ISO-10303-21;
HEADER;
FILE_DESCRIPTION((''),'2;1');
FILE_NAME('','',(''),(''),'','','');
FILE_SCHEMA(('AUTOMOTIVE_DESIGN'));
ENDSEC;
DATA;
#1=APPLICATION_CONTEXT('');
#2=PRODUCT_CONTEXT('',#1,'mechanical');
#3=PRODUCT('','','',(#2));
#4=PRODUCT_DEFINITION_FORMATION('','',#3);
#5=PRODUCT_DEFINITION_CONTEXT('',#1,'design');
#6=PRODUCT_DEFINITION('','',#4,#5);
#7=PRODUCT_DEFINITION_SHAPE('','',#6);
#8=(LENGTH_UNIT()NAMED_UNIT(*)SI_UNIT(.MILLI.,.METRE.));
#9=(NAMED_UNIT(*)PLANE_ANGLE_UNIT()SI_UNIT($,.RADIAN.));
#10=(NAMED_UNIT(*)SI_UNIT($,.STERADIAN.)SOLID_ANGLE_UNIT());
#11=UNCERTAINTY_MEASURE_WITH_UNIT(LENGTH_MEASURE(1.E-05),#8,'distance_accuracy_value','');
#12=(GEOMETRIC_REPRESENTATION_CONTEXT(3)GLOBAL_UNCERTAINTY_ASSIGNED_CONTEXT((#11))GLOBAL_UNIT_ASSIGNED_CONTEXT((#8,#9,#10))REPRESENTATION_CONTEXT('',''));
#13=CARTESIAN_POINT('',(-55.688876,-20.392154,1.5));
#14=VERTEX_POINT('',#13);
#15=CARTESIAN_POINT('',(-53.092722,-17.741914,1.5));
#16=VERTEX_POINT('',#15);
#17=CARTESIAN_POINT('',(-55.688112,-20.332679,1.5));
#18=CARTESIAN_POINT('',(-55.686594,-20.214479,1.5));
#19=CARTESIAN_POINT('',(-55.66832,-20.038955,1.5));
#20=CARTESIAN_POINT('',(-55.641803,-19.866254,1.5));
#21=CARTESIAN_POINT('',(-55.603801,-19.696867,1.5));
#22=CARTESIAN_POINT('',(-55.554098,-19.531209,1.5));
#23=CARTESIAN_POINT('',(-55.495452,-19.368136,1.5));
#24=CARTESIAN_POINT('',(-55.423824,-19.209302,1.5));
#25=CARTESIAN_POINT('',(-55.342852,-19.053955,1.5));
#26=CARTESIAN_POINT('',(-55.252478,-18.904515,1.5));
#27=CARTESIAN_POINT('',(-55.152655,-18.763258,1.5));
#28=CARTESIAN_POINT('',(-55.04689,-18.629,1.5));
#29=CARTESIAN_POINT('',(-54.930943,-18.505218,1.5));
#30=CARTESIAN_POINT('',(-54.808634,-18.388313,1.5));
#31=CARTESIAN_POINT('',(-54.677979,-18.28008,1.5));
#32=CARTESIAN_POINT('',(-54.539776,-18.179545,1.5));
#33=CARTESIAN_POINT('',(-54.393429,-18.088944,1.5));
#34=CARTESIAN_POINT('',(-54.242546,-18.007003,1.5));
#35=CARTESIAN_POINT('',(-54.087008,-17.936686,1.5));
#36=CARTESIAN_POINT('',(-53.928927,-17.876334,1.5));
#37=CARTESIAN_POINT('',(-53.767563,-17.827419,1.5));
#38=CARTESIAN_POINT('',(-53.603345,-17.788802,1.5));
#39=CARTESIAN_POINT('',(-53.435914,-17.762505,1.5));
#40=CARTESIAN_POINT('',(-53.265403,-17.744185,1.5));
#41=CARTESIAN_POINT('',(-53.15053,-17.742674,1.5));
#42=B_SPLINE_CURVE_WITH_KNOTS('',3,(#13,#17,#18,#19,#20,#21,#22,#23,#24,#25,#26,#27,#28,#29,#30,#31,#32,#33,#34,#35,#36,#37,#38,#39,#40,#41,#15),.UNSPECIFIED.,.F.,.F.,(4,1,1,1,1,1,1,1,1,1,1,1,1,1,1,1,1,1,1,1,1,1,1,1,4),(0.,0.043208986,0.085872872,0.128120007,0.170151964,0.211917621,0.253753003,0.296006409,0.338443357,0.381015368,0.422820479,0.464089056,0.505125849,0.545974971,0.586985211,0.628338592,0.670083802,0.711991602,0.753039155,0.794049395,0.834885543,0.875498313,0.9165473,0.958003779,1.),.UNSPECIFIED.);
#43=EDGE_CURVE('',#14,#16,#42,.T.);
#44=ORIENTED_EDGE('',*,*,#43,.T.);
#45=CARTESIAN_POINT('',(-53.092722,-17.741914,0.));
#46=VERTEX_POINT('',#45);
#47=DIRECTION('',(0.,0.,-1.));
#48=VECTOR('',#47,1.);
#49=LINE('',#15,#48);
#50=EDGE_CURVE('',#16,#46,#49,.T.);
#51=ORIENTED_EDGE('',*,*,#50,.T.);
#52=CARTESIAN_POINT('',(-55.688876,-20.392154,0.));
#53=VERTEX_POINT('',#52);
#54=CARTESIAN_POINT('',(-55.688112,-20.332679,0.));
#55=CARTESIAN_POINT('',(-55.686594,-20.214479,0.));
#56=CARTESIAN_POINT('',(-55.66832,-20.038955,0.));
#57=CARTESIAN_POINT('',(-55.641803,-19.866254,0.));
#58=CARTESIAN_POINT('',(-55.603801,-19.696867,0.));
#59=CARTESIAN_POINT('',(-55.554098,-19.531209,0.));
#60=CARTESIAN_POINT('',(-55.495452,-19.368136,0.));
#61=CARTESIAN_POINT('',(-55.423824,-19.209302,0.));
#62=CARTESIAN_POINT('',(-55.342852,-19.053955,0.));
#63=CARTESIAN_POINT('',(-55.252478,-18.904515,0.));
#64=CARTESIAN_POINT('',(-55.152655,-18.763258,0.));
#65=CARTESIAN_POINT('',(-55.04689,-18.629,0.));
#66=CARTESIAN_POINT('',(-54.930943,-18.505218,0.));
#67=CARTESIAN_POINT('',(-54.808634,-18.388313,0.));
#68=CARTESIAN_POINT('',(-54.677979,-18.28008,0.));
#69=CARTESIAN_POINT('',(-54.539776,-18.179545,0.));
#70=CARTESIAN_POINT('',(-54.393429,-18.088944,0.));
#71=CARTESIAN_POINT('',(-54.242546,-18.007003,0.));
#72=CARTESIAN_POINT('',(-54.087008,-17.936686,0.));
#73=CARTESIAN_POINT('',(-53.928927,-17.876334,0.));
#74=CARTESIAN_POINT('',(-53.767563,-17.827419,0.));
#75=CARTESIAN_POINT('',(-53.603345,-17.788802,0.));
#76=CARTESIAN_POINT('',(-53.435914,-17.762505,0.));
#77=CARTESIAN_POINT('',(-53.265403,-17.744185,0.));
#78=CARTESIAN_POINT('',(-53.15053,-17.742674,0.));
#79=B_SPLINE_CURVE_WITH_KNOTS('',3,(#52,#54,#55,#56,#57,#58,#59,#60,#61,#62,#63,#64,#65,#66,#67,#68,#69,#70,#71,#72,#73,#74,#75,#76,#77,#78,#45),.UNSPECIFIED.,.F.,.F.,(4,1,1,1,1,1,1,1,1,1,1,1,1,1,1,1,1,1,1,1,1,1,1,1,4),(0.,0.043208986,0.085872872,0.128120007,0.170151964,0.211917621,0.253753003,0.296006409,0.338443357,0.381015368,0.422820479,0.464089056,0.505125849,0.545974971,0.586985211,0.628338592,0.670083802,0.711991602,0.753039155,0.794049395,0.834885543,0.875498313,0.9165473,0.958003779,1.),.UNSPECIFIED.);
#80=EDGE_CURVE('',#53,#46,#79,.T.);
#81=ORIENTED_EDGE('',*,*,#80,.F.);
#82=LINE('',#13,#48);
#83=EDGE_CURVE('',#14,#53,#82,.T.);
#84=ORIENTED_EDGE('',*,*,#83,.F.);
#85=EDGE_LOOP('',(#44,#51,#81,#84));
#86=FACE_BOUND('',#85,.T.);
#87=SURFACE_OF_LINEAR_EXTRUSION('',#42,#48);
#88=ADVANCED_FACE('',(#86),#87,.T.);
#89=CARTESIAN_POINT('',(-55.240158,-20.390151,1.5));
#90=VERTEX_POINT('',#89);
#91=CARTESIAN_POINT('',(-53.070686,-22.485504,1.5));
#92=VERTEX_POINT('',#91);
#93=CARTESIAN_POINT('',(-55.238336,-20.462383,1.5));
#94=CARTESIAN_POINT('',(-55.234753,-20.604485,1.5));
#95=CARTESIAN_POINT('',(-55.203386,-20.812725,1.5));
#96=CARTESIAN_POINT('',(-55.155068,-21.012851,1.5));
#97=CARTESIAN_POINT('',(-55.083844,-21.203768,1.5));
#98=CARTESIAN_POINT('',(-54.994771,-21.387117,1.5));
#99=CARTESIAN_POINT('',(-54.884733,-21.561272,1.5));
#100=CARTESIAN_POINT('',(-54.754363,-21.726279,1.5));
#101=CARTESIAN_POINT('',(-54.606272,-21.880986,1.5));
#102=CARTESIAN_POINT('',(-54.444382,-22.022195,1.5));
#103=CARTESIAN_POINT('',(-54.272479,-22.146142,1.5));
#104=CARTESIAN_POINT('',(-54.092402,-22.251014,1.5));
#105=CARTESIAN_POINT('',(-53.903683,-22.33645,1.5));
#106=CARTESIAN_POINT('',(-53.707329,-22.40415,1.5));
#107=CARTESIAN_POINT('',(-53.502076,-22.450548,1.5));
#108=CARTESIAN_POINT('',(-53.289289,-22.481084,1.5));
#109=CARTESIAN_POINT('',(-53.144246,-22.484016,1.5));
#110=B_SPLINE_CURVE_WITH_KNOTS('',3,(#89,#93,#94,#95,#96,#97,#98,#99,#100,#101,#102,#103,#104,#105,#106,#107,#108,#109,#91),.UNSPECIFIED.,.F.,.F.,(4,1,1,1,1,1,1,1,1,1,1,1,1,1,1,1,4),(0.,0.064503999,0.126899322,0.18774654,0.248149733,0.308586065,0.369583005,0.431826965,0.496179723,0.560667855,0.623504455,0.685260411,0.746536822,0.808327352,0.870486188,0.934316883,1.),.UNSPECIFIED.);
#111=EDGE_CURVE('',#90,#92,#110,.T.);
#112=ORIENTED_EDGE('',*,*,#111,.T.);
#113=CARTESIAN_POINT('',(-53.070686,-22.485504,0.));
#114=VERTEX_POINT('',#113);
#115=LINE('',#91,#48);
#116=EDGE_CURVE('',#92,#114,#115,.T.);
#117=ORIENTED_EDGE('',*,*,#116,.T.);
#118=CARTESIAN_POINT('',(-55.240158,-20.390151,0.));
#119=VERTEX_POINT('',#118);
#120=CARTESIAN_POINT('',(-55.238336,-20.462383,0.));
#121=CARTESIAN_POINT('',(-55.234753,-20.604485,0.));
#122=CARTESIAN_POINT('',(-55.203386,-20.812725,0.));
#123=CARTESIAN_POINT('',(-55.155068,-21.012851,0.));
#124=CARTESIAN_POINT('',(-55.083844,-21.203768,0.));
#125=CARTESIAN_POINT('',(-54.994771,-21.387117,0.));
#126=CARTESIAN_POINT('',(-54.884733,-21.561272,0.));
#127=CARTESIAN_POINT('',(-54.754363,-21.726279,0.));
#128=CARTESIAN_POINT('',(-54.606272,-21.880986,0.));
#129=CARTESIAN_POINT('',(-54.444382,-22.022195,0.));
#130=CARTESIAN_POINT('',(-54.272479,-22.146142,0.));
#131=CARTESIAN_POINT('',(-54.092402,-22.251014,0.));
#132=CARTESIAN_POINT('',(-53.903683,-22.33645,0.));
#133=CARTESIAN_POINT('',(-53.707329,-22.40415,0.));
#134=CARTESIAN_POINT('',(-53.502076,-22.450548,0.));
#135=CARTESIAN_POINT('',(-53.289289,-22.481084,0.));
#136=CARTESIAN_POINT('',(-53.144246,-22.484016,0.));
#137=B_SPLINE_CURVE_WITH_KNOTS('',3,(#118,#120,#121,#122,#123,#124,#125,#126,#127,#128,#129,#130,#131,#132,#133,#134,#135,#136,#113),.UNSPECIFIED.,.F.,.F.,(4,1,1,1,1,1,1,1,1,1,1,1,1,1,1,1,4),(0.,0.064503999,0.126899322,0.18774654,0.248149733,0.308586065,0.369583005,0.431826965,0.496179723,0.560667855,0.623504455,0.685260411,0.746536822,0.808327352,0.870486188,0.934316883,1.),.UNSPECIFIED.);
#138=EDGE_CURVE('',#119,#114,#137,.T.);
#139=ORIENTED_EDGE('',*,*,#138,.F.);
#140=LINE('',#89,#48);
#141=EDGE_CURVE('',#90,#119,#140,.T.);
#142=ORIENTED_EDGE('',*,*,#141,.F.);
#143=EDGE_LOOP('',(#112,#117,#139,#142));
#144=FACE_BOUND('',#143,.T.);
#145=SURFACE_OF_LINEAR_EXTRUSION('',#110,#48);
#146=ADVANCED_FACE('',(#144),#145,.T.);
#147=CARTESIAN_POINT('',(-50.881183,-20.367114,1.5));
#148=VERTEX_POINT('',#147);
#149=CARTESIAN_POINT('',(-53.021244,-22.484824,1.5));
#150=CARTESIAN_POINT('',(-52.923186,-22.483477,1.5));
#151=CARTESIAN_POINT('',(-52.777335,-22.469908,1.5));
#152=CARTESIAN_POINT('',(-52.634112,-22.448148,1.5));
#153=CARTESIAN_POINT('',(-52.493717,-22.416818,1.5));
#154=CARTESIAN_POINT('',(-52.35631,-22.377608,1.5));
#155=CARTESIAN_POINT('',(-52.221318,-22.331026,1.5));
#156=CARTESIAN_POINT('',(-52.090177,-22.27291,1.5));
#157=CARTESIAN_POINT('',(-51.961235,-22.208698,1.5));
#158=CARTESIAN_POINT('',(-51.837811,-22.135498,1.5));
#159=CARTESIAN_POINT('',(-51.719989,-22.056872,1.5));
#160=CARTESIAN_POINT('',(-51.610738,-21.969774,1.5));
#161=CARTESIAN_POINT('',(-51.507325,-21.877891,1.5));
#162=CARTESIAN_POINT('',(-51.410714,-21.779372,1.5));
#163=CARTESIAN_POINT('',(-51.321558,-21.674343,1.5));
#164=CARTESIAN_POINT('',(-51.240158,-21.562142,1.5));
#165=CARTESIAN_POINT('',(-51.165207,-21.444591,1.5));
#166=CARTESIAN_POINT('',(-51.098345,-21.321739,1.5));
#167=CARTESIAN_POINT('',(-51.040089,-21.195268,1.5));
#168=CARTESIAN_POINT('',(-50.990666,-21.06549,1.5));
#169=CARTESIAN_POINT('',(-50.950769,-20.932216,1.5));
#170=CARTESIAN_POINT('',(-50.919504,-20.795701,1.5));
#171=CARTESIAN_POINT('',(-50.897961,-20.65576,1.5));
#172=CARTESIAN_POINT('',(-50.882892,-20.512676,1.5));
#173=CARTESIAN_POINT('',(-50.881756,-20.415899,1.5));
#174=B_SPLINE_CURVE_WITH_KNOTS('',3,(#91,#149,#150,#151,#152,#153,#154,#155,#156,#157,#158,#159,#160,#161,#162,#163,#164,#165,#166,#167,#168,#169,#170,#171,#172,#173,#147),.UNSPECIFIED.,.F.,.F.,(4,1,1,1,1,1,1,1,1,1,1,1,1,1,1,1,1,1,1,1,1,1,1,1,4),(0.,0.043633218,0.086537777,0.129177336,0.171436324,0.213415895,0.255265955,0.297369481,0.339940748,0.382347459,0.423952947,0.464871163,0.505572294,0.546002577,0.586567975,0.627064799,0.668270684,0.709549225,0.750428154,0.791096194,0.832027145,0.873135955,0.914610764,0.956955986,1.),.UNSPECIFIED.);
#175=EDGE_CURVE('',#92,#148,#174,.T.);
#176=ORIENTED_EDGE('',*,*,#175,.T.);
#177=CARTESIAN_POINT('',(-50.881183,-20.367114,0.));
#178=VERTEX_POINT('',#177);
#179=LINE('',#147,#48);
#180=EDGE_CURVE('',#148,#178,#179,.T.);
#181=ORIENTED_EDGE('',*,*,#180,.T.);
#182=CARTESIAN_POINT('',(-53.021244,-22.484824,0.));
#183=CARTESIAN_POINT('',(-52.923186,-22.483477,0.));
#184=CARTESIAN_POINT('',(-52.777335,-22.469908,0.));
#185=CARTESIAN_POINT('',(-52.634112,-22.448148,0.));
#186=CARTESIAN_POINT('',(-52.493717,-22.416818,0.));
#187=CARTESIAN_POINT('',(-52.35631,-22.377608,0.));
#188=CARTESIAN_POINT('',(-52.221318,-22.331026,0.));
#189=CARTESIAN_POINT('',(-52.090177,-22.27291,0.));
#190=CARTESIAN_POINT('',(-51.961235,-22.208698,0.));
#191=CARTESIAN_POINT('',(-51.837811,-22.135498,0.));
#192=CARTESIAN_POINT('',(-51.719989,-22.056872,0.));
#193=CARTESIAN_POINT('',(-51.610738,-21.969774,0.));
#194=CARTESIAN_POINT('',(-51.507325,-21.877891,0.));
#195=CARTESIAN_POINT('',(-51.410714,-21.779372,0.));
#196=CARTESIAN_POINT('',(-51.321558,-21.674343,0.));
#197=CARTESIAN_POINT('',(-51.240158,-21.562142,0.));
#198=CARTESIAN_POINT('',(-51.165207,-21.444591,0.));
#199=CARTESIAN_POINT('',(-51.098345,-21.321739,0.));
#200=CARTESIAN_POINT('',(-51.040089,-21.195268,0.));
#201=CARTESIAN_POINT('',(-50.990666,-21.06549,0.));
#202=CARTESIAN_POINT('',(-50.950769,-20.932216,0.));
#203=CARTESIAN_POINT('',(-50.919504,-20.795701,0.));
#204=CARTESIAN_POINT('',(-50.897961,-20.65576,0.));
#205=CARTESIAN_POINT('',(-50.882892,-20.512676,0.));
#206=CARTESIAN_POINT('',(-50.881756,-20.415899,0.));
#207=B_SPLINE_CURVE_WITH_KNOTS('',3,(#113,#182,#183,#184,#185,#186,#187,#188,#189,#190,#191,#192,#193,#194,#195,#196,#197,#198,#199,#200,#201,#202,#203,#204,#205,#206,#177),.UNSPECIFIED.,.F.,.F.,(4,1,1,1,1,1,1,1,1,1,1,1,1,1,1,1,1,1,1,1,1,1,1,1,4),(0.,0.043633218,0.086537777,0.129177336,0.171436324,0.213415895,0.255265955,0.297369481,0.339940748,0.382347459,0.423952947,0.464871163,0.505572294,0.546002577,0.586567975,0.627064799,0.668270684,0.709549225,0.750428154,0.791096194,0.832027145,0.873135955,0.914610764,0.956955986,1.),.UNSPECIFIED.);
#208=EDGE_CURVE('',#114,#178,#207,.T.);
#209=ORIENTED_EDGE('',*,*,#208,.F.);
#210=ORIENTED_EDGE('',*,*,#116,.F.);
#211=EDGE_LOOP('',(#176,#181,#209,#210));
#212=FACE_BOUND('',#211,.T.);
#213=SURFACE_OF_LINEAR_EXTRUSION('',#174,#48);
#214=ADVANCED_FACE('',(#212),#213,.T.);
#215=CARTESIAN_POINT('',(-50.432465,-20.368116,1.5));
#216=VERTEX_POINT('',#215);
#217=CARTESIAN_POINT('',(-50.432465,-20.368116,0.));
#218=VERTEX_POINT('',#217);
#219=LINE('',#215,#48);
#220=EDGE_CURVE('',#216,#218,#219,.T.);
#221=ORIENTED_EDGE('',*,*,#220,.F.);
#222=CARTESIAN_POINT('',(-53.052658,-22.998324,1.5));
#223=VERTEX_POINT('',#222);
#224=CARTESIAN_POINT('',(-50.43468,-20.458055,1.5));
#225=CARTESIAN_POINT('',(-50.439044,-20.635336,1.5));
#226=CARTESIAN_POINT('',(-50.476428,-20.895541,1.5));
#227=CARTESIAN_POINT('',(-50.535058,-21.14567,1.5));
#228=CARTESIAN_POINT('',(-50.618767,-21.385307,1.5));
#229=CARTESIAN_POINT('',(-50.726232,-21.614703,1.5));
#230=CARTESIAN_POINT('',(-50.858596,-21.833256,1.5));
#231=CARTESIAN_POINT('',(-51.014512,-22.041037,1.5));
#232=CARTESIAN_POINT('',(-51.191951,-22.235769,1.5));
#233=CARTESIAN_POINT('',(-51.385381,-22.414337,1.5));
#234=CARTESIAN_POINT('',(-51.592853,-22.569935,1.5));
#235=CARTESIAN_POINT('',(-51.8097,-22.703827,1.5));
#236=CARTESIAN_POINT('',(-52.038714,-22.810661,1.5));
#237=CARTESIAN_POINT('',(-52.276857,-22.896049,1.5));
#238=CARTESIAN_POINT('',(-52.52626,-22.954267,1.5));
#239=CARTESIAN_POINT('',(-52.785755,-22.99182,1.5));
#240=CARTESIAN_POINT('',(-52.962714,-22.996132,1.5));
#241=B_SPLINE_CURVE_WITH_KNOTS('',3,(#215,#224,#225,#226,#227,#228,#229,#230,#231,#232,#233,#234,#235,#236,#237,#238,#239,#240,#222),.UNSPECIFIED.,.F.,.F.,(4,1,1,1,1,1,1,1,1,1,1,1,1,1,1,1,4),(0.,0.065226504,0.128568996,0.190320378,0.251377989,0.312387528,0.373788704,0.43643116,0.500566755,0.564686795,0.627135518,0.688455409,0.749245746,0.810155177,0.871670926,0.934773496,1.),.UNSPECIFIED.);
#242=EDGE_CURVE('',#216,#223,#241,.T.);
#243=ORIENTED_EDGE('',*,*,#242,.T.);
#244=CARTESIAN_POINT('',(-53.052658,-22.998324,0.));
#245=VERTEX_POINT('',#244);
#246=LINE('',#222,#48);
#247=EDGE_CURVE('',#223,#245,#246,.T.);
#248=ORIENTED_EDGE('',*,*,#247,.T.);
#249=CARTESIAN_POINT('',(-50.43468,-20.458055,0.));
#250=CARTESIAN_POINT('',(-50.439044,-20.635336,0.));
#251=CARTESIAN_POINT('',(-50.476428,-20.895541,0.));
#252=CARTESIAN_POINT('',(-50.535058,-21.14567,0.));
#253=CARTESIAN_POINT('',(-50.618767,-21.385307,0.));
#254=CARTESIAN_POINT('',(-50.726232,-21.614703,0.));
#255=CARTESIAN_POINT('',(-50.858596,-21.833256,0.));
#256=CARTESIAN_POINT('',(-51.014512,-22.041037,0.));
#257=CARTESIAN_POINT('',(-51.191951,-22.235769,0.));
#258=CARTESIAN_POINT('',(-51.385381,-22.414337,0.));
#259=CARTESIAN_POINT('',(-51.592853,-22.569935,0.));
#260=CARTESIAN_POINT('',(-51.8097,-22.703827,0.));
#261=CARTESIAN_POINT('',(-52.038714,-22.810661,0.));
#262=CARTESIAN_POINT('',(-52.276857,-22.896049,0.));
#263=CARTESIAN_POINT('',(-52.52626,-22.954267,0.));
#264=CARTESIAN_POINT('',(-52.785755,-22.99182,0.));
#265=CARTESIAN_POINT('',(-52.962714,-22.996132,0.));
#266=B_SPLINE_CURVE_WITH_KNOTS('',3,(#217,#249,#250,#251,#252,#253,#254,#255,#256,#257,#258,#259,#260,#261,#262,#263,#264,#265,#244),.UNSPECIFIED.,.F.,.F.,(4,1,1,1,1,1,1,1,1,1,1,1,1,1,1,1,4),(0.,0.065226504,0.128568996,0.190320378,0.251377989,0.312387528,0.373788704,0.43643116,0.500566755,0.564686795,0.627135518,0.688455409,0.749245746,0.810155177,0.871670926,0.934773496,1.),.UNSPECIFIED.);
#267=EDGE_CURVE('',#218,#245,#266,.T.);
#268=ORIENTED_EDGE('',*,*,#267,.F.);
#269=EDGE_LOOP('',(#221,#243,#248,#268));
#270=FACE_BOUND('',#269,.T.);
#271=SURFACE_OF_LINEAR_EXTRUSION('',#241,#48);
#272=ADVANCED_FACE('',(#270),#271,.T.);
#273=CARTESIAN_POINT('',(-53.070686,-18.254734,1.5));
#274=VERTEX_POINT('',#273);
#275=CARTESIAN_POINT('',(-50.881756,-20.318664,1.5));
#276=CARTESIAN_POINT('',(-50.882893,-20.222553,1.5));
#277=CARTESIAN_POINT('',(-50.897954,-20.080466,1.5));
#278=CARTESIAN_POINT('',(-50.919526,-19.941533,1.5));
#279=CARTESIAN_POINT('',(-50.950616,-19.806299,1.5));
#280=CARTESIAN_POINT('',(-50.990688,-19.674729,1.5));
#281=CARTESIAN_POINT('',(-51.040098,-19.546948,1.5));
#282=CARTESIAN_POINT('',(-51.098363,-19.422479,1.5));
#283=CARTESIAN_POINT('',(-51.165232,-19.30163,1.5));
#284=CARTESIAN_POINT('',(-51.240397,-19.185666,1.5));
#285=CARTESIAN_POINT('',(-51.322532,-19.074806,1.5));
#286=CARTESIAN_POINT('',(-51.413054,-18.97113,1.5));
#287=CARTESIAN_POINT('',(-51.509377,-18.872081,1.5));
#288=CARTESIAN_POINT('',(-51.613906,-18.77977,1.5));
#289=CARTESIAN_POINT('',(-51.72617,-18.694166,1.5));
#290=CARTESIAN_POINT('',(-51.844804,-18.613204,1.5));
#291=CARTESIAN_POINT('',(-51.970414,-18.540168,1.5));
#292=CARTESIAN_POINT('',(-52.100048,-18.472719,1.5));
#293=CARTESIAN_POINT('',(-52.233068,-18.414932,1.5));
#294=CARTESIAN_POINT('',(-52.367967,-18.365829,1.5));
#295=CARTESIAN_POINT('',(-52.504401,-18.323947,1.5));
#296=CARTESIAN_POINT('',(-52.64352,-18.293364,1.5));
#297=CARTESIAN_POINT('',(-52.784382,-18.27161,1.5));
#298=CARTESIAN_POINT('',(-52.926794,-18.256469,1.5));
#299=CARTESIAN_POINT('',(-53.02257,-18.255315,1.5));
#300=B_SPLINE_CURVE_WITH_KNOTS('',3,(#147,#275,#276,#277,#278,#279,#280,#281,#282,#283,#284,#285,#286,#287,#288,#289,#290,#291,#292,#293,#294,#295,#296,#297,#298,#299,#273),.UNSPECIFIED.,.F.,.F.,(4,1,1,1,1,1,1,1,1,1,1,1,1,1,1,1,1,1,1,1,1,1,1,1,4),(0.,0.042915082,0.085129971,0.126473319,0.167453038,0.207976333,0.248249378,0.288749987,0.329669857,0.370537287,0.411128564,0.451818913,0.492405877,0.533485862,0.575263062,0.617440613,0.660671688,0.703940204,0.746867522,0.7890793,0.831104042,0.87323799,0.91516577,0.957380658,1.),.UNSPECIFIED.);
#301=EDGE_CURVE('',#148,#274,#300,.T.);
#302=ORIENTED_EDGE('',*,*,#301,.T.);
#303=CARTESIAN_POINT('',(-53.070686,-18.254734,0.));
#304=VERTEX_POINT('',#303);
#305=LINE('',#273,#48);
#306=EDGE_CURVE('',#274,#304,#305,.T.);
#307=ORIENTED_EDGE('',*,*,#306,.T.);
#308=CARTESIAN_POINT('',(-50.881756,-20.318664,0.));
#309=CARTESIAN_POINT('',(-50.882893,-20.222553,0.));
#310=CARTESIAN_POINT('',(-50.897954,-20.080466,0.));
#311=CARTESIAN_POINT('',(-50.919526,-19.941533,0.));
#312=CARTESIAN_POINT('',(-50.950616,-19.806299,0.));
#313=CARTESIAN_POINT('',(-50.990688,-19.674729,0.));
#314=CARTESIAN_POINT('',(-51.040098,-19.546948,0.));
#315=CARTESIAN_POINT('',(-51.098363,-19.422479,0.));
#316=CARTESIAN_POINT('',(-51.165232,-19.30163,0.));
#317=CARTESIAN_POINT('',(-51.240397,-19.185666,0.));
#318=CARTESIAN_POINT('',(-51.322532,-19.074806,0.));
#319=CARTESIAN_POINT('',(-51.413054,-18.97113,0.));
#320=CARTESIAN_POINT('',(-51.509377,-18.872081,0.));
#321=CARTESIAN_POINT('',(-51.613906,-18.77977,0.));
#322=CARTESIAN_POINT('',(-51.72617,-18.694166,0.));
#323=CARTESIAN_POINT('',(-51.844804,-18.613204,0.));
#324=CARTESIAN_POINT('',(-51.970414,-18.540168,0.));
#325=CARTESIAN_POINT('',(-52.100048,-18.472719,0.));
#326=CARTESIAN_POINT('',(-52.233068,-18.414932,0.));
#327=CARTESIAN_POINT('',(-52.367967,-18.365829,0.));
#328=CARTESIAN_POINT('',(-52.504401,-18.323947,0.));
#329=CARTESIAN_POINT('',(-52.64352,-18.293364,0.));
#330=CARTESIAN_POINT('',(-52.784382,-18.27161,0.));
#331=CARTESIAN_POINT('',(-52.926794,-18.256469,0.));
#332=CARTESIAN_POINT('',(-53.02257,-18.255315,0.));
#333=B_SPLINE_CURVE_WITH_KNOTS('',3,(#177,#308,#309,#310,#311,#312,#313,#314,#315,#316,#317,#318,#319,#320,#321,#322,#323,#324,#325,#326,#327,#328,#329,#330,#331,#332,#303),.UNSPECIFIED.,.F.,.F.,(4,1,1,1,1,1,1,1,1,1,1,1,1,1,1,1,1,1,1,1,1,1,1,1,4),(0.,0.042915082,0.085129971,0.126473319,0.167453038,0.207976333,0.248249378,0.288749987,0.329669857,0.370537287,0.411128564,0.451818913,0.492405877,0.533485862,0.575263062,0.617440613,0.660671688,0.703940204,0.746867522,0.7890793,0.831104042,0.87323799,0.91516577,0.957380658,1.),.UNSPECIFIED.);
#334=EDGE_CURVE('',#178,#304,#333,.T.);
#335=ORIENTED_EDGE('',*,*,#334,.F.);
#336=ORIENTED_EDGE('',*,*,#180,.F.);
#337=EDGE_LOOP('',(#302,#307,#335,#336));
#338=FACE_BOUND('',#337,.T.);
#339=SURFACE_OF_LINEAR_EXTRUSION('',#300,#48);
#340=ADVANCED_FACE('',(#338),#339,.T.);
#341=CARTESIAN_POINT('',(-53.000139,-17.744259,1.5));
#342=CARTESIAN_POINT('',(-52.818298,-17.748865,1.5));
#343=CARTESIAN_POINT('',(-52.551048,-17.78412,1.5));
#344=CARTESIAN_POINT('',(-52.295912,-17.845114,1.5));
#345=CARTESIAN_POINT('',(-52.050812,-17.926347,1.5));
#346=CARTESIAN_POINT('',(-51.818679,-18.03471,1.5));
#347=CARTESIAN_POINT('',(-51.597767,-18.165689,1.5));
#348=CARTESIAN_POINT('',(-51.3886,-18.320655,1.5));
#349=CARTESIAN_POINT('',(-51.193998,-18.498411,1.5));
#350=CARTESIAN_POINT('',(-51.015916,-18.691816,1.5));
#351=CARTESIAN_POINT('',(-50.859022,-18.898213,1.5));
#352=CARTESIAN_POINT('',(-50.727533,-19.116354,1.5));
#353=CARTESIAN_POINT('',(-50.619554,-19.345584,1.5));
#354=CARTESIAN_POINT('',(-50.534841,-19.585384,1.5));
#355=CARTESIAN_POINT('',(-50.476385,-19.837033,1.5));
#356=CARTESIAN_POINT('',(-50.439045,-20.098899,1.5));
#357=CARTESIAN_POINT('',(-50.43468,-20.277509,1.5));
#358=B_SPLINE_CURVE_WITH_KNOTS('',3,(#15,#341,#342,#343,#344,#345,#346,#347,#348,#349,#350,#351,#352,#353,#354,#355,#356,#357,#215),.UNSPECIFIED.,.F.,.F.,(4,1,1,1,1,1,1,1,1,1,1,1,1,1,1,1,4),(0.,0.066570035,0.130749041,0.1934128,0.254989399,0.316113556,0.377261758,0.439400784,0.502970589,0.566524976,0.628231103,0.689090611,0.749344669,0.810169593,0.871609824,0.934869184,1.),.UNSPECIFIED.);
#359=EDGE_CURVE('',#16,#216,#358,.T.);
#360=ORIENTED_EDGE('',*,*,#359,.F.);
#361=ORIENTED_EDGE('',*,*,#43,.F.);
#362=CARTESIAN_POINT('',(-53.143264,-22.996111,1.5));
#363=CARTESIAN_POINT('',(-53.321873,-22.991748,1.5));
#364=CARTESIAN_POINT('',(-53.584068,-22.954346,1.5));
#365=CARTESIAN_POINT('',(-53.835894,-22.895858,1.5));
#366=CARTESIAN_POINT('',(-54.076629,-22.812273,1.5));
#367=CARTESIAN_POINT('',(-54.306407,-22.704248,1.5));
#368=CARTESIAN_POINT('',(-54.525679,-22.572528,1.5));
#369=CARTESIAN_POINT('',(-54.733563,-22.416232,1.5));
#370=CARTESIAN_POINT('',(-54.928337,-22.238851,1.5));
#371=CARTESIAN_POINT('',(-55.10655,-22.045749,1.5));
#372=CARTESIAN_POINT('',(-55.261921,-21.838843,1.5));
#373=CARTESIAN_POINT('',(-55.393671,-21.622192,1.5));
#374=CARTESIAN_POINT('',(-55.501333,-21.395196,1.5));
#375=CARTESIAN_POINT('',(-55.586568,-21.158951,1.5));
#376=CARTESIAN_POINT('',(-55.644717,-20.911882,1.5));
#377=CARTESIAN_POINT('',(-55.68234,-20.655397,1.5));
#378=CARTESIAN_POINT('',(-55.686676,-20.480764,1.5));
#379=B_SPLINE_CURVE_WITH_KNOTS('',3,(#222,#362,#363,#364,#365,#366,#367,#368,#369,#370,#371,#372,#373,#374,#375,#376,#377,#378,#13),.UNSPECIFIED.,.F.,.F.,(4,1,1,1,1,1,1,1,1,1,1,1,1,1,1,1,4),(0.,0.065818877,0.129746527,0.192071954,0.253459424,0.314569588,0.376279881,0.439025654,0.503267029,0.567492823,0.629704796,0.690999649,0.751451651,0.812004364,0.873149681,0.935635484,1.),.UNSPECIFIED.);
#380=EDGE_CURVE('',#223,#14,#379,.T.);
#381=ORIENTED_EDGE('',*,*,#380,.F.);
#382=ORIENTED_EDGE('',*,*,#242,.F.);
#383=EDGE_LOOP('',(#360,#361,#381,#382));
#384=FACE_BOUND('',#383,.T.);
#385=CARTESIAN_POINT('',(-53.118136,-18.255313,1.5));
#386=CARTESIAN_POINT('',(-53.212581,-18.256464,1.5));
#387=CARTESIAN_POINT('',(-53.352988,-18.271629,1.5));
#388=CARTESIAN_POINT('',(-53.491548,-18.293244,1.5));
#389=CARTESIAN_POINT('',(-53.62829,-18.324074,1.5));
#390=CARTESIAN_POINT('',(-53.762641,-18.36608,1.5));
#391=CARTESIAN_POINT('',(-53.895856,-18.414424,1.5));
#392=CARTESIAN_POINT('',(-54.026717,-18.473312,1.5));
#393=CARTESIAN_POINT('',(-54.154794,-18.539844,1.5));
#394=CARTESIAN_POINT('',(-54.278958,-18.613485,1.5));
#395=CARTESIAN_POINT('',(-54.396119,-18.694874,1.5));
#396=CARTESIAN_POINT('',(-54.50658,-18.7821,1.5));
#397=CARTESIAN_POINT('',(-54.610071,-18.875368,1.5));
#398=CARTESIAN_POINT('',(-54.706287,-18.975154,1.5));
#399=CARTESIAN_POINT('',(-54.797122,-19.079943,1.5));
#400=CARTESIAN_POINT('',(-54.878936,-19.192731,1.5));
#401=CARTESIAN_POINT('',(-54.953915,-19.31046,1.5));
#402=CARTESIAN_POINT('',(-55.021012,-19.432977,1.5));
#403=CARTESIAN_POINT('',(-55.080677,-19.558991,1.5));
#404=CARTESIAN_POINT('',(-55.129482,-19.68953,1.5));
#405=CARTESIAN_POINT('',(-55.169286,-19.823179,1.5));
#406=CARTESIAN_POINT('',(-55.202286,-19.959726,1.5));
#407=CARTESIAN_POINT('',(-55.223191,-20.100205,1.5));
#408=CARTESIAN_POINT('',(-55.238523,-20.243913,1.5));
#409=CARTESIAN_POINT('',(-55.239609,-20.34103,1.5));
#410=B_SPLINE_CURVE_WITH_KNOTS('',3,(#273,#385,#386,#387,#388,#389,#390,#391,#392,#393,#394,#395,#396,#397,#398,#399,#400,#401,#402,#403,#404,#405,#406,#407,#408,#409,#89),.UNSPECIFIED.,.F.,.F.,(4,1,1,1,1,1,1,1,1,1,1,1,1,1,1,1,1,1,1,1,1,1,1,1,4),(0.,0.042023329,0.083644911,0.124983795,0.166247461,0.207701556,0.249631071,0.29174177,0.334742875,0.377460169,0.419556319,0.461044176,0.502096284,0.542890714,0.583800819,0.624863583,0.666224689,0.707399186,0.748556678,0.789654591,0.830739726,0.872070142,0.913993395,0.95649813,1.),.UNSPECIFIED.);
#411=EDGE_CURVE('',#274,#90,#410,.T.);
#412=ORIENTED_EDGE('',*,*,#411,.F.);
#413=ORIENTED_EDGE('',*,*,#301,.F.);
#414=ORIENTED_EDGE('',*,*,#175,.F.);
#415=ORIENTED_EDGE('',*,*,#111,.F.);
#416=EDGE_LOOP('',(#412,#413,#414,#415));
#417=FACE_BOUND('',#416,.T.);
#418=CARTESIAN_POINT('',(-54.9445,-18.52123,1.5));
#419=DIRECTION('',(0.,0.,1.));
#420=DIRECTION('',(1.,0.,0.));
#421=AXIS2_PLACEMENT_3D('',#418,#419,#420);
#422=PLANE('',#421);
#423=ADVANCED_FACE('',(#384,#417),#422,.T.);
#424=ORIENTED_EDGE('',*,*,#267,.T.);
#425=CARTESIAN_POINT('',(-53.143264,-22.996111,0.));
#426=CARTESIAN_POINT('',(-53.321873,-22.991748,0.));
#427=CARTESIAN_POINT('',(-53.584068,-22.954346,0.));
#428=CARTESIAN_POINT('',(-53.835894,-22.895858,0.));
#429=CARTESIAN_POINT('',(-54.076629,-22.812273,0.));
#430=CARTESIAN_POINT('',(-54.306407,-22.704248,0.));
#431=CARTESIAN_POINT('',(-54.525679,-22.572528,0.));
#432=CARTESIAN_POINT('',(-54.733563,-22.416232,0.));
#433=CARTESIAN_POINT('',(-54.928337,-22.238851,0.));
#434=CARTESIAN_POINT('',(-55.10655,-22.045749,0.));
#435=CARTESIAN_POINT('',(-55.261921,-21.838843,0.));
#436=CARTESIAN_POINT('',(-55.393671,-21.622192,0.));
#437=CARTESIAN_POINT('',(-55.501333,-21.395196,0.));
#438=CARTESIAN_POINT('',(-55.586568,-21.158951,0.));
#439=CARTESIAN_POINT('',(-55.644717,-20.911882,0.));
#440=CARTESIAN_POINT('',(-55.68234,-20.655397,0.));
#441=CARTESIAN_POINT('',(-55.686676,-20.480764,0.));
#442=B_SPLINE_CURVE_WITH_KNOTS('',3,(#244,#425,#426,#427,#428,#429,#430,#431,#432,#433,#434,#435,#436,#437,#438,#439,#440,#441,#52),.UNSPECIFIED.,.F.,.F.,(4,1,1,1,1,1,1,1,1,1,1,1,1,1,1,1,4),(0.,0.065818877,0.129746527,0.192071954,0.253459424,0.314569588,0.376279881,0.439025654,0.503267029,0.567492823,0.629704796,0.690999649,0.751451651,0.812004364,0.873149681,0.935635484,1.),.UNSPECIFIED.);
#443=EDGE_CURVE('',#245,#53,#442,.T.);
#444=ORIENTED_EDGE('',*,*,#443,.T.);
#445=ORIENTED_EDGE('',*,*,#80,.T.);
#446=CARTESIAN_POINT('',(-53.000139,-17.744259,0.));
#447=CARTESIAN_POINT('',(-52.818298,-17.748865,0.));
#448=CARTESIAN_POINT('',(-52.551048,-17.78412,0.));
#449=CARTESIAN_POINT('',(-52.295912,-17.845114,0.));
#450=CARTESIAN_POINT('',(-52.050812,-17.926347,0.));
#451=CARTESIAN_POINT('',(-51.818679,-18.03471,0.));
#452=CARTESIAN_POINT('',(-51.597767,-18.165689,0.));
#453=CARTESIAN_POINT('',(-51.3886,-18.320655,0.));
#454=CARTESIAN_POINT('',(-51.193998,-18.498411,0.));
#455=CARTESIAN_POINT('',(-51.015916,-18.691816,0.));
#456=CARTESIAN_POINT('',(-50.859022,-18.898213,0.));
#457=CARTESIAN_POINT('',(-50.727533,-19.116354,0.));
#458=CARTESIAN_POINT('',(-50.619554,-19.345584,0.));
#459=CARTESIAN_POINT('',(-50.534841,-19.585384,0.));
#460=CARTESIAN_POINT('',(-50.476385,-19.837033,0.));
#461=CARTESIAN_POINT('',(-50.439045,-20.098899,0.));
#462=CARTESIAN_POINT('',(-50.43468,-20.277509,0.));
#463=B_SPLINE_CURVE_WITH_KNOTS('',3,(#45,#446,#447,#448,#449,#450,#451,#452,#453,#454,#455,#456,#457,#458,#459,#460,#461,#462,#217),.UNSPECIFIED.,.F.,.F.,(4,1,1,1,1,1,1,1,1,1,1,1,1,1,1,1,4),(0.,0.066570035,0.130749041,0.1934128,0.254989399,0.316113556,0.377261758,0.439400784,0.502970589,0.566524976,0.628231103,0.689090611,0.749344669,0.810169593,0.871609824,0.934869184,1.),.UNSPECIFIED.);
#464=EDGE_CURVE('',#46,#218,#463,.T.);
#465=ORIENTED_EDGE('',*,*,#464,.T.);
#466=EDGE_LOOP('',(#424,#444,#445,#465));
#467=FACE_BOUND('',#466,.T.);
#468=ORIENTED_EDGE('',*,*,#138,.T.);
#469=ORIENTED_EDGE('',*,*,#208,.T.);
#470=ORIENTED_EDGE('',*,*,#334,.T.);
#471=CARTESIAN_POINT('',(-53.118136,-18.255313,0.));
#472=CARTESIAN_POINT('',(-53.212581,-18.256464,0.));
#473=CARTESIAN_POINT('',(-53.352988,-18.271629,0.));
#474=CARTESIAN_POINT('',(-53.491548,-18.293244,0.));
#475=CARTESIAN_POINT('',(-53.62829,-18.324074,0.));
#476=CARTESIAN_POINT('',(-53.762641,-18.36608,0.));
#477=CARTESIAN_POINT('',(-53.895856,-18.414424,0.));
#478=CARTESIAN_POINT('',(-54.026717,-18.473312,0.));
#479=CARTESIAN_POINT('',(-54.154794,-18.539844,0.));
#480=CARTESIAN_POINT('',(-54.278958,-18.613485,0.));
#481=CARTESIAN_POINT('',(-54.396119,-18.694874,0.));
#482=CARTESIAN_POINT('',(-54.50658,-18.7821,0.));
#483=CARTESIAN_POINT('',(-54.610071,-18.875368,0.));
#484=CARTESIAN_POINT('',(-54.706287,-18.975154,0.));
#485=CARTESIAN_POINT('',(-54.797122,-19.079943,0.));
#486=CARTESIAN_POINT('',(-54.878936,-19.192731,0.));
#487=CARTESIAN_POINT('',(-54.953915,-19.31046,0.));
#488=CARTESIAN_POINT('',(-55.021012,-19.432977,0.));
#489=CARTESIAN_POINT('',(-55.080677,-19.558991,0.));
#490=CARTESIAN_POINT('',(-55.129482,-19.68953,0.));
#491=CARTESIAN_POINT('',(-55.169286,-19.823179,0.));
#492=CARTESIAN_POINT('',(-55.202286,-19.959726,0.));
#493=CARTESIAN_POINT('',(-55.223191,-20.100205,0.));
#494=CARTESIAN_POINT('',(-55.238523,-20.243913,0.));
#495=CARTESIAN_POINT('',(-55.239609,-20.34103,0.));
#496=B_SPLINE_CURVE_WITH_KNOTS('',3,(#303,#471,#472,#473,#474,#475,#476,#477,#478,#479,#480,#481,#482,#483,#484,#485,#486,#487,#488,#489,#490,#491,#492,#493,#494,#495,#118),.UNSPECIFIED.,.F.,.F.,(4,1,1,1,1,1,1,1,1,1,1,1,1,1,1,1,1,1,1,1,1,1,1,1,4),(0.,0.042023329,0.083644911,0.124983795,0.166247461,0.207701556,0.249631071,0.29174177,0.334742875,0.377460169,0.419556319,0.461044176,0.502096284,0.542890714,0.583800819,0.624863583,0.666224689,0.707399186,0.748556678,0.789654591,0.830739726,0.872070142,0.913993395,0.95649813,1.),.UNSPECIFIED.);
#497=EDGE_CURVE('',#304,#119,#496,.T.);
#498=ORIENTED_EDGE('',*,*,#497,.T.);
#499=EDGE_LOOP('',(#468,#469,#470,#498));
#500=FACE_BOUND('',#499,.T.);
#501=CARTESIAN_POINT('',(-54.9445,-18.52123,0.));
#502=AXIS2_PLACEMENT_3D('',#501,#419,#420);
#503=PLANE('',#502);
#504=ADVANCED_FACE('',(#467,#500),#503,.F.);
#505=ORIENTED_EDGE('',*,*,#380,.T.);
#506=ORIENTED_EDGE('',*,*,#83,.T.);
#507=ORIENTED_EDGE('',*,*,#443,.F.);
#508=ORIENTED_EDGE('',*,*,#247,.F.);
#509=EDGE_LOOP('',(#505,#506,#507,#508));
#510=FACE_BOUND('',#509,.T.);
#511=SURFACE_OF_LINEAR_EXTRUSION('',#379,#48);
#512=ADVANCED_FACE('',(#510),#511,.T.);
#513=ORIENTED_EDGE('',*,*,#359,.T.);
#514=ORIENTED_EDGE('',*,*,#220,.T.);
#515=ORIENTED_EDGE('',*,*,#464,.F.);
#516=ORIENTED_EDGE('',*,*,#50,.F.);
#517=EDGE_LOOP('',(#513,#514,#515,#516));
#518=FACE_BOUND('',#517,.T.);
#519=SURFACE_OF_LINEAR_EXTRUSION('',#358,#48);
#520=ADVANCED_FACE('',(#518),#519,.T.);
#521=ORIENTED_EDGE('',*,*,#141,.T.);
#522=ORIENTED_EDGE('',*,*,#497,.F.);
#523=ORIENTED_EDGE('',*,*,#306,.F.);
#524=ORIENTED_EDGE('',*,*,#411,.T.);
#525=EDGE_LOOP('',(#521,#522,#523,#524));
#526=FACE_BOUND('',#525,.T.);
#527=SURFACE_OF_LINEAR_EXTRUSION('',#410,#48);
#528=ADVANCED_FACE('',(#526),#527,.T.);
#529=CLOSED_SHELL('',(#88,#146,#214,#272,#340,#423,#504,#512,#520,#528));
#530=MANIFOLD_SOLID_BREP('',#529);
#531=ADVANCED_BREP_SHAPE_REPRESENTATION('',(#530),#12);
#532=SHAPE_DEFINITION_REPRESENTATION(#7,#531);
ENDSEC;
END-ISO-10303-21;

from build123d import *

# Parameters (mm, degrees)
BOSS_EXTRU_1_DEPTH = 1.5


with BuildPart() as part:
    # Esquisse1 → Boss.-Extru.1 (new body)
    with BuildSketch(Plane.XY):
        with BuildLine():
            add(Edge.make_bspline(
                [(-53.092721736, -17.741913948), (-53.000138728, -17.744258919), (-52.818298061, -17.748864634), (-52.551048207, -17.784120496), (-52.295912356, -17.845113911), (-52.050812158, -17.926346743), (-51.818679334, -18.03471015), (-51.597766631, -18.165688934), (-51.388599668, -18.320655303), (-51.193997695, -18.498411342), (-51.015916337, -18.691816276), (-50.859022214, -18.89821329), (-50.727533223, -19.116354436), (-50.619553527, -19.345584195), (-50.534841227, -19.585384149), (-50.476385451, -19.837032724), (-50.439045236, -20.098899424), (-50.43467984, -20.277509231), (-50.432465326, -20.368115871)],
                knots=[0, 0, 0, 0, 1.065120563, 2.091984664, 3.0946048, 4.079830382, 5.057816894, 6.036188127, 7.030412546, 8.04752943, 9.064399622, 10.05169764, 11.02544977, 11.989514704, 12.962713494, 13.945757189, 14.957906945, 16, 16, 16, 16], degree=3))
            add(Edge.make_bspline(
                [(-50.432465326, -20.368115871), (-50.434679515, -20.45805508), (-50.439043939, -20.635335681), (-50.476427907, -20.895540601), (-50.535057907, -21.145670167), (-50.618766858, -21.385306814), (-50.726231828, -21.614703334), (-50.858596358, -21.833256125), (-51.014512373, -22.041036837), (-51.191950732, -22.235769216), (-51.385380792, -22.414337031), (-51.592852602, -22.569935425), (-51.809700201, -22.703827032), (-52.03871407, -22.810660852), (-52.27685698, -22.896049309), (-52.526260299, -22.954267352), (-52.785755376, -22.991820271), (-52.962713953, -22.996132437), (-53.052657634, -22.998324204)],
                knots=[0, 0, 0, 0, 1.043624062, 2.057103931, 3.04512605, 4.022047818, 4.998200453, 5.980619268, 6.982898556, 8.009068085, 9.034988726, 10.034168286, 11.015286542, 11.987931943, 12.962482838, 13.94673481, 14.956375938, 16, 16, 16, 16], degree=3))
            add(Edge.make_bspline(
                [(-53.052657634, -22.998324204), (-53.143263804, -22.996110795), (-53.321872683, -22.991747575), (-53.584068448, -22.954345568), (-53.835893797, -22.895857991), (-54.076628584, -22.812273082), (-54.306407055, -22.704248467), (-54.525678602, -22.572527925), (-54.733563098, -22.416232009), (-54.928337021, -22.238851188), (-55.106550162, -22.045748971), (-55.261920698, -21.838842893), (-55.39367086, -21.62219224), (-55.501332764, -21.395195777), (-55.586567706, -21.158950859), (-55.644717446, -20.911881606), (-55.682340234, -20.655396597), (-55.686675729, -20.480763885), (-55.688875582, -20.392154333)],
                knots=[0, 0, 0, 0, 1.053102029, 2.075944431, 3.073151272, 4.055350789, 5.033113405, 6.020478099, 7.024410459, 8.052272461, 9.079885166, 10.07527673, 11.055994387, 12.023226415, 12.992069828, 13.970394897, 14.97016774, 16, 16, 16, 16], degree=3))
            add(Edge.make_bspline(
                [(-55.688875582, -20.392154333), (-55.688111817, -20.332679091), (-55.686593922, -20.214478915), (-55.668320076, -20.0389552), (-55.64180336, -19.86625426), (-55.603800628, -19.696867192), (-55.554098246, -19.531208642), (-55.495452493, -19.368136124), (-55.423824143, -19.209302233), (-55.342851788, -19.05395453), (-55.252477777, -18.904514665), (-55.152655278, -18.763258118), (-55.046890465, -18.628999551), (-54.93094276, -18.505218117), (-54.808633553, -18.388312893), (-54.677978727, -18.28008044), (-54.539775521, -18.179544796), (-54.393429264, -18.088944309), (-54.242546014, -18.007002688), (-54.08700776, -17.936685758), (-53.928926944, -17.876334242), (-53.767563161, -17.827418777), (-53.603344915, -17.788801583), (-53.435913794, -17.762505363), (-53.265403185, -17.744184909), (-53.150529872, -17.742674192), (-53.092721736, -17.741913948)],
                knots=[0, 0, 0, 0, 1.037015668, 2.060948919, 3.074880161, 4.083647147, 5.086022904, 6.090072063, 7.104153813, 8.122640571, 9.144368836, 10.147691507, 11.138137339, 12.123020368, 13.103399296, 14.087645067, 15.080126199, 16.082011238, 17.087798457, 18.072939717, 19.057185487, 20.037253025, 21.01195951, 21.997135196, 22.992090687, 24, 24, 24, 24], degree=3))
        make_face()
        with BuildLine():
            add(Edge.make_bspline(
                [(-53.07068648, -18.254734461), (-53.118135956, -18.255312875), (-53.212581289, -18.256464175), (-53.352987769, -18.271629483), (-53.491547675, -18.29324361), (-53.628289621, -18.324074354), (-53.762641463, -18.366080144), (-53.895855522, -18.414424298), (-54.026717027, -18.473311571), (-54.154793967, -18.539844005), (-54.27895836, -18.613485321), (-54.396119362, -18.694873559), (-54.506580282, -18.782100066), (-54.610070663, -18.875368405), (-54.706286623, -18.97515355), (-54.797121911, -19.079942745), (-54.878935599, -19.19273116), (-54.953914994, -19.310460313), (-55.021011909, -19.432976858), (-55.080676702, -19.558990947), (-55.129482428, -19.689530499), (-55.169285823, -19.823179296), (-55.202285553, -19.959725667), (-55.223191159, -20.100205451), (-55.238523101, -20.243912754), (-55.239608594, -20.341029688), (-55.240157634, -20.390151128)],
                knots=[0, 0, 0, 0, 1.008559885, 2.007477868, 2.99961109, 3.989939068, 4.984837346, 5.991145699, 7.001802488, 8.033829008, 9.059044045, 10.069351652, 11.065060232, 12.050310815, 13.029377138, 14.011219647, 14.996725999, 15.989392538, 16.977580475, 17.965360261, 18.951710183, 19.937753436, 20.929683414, 21.935841486, 22.955955122, 24, 24, 24, 24], degree=3))
            add(Edge.make_bspline(
                [(-55.240157634, -20.390151128), (-55.238336402, -20.462382872), (-55.234753477, -20.604485058), (-55.203385519, -20.812725263), (-55.155068413, -21.012851387), (-55.083843604, -21.2037684), (-54.994771297, -21.387117375), (-54.884732882, -21.561271811), (-54.75436276, -21.726278774), (-54.606272008, -21.880986301), (-54.444382427, -22.022194593), (-54.272478527, -22.146142319), (-54.092401945, -22.251014105), (-53.903683084, -22.336449923), (-53.707329457, -22.404149548), (-53.502075813, -22.450547592), (-53.289289442, -22.481083957), (-53.144245649, -22.484016466), (-53.07068648, -22.485503692)],
                knots=[0, 0, 0, 0, 1.032063989, 2.030389145, 3.003944642, 3.970395727, 4.937377036, 5.913328081, 6.909231446, 7.93887556, 8.970685674, 9.976071282, 10.964166581, 11.944589148, 12.933237628, 13.927779006, 14.949070134, 16, 16, 16, 16], degree=3))
            add(Edge.make_bspline(
                [(-53.07068648, -22.485503692), (-53.021244335, -22.4848244), (-52.923185711, -22.48347716), (-52.777334965, -22.469907621), (-52.634111805, -22.448147808), (-52.49371712, -22.4168183), (-52.356310246, -22.377608005), (-52.22131767, -22.331025536), (-52.090177256, -22.272909531), (-51.96123463, -22.208698172), (-51.837811428, -22.135497947), (-51.719989239, -22.056872019), (-51.610737839, -21.969773989), (-51.50732488, -21.8778914), (-51.410713896, -21.779371617), (-51.321558204, -21.674342729), (-51.240158015, -21.56214179), (-51.165207091, -21.44459121), (-51.098345287, -21.321739421), (-51.040089432, -21.195268452), (-50.990666409, -21.065489725), (-50.950768545, -20.932216051), (-50.9195036, -20.795700553), (-50.897960857, -20.655760441), (-50.882891659, -20.512675666), (-50.881755834, -20.415898729), (-50.881183275, -20.367114269)],
                knots=[0, 0, 0, 0, 1.047197238, 2.076906641, 3.100256066, 4.114471768, 5.12198147, 6.126382909, 7.136867548, 8.15857795, 9.17633901, 10.174870724, 11.156907918, 12.133735059, 13.104061851, 14.077631395, 15.04955518, 16.038496417, 17.029181396, 18.010275684, 18.986308667, 19.968651475, 20.955262928, 21.950658345, 22.966943676, 24, 24, 24, 24], degree=3))
            add(Edge.make_bspline(
                [(-50.881183275, -20.367114269), (-50.881756293, -20.318663548), (-50.882892981, -20.222552619), (-50.897953659, -20.080465736), (-50.91952636, -19.941532577), (-50.950615942, -19.806298572), (-50.990687591, -19.674729251), (-51.040098063, -19.546948183), (-51.098362776, -19.422479333), (-51.165231668, -19.301630337), (-51.24039713, -19.185666426), (-51.322531764, -19.074805836), (-51.413053689, -18.971130491), (-51.509376582, -18.872080929), (-51.613906418, -18.779769658), (-51.726169696, -18.694166057), (-51.844803521, -18.613204236), (-51.970413857, -18.540167719), (-52.100048077, -18.472718816), (-52.233068017, -18.414931668), (-52.367966731, -18.36582864), (-52.504401177, -18.323947262), (-52.643519717, -18.293364362), (-52.78438233, -18.271610005), (-52.926794128, -18.256469453), (-53.022570156, -18.255314627), (-53.07068648, -18.254734461)],
                knots=[0, 0, 0, 0, 1.02996197, 2.043119294, 3.035359645, 4.018872909, 4.991431989, 5.957985074, 6.929999688, 7.912076566, 8.892894881, 9.867085534, 10.843653904, 11.817741046, 12.803660682, 13.806313499, 14.818574707, 15.856120519, 16.894564902, 17.924820532, 18.937903209, 19.946497019, 20.957711757, 21.963978472, 22.977135795, 24, 24, 24, 24], degree=3))
        make_face(mode=Mode.SUBTRACT)
    extrude(amount=BOSS_EXTRU_1_DEPTH)


solid = part.part
